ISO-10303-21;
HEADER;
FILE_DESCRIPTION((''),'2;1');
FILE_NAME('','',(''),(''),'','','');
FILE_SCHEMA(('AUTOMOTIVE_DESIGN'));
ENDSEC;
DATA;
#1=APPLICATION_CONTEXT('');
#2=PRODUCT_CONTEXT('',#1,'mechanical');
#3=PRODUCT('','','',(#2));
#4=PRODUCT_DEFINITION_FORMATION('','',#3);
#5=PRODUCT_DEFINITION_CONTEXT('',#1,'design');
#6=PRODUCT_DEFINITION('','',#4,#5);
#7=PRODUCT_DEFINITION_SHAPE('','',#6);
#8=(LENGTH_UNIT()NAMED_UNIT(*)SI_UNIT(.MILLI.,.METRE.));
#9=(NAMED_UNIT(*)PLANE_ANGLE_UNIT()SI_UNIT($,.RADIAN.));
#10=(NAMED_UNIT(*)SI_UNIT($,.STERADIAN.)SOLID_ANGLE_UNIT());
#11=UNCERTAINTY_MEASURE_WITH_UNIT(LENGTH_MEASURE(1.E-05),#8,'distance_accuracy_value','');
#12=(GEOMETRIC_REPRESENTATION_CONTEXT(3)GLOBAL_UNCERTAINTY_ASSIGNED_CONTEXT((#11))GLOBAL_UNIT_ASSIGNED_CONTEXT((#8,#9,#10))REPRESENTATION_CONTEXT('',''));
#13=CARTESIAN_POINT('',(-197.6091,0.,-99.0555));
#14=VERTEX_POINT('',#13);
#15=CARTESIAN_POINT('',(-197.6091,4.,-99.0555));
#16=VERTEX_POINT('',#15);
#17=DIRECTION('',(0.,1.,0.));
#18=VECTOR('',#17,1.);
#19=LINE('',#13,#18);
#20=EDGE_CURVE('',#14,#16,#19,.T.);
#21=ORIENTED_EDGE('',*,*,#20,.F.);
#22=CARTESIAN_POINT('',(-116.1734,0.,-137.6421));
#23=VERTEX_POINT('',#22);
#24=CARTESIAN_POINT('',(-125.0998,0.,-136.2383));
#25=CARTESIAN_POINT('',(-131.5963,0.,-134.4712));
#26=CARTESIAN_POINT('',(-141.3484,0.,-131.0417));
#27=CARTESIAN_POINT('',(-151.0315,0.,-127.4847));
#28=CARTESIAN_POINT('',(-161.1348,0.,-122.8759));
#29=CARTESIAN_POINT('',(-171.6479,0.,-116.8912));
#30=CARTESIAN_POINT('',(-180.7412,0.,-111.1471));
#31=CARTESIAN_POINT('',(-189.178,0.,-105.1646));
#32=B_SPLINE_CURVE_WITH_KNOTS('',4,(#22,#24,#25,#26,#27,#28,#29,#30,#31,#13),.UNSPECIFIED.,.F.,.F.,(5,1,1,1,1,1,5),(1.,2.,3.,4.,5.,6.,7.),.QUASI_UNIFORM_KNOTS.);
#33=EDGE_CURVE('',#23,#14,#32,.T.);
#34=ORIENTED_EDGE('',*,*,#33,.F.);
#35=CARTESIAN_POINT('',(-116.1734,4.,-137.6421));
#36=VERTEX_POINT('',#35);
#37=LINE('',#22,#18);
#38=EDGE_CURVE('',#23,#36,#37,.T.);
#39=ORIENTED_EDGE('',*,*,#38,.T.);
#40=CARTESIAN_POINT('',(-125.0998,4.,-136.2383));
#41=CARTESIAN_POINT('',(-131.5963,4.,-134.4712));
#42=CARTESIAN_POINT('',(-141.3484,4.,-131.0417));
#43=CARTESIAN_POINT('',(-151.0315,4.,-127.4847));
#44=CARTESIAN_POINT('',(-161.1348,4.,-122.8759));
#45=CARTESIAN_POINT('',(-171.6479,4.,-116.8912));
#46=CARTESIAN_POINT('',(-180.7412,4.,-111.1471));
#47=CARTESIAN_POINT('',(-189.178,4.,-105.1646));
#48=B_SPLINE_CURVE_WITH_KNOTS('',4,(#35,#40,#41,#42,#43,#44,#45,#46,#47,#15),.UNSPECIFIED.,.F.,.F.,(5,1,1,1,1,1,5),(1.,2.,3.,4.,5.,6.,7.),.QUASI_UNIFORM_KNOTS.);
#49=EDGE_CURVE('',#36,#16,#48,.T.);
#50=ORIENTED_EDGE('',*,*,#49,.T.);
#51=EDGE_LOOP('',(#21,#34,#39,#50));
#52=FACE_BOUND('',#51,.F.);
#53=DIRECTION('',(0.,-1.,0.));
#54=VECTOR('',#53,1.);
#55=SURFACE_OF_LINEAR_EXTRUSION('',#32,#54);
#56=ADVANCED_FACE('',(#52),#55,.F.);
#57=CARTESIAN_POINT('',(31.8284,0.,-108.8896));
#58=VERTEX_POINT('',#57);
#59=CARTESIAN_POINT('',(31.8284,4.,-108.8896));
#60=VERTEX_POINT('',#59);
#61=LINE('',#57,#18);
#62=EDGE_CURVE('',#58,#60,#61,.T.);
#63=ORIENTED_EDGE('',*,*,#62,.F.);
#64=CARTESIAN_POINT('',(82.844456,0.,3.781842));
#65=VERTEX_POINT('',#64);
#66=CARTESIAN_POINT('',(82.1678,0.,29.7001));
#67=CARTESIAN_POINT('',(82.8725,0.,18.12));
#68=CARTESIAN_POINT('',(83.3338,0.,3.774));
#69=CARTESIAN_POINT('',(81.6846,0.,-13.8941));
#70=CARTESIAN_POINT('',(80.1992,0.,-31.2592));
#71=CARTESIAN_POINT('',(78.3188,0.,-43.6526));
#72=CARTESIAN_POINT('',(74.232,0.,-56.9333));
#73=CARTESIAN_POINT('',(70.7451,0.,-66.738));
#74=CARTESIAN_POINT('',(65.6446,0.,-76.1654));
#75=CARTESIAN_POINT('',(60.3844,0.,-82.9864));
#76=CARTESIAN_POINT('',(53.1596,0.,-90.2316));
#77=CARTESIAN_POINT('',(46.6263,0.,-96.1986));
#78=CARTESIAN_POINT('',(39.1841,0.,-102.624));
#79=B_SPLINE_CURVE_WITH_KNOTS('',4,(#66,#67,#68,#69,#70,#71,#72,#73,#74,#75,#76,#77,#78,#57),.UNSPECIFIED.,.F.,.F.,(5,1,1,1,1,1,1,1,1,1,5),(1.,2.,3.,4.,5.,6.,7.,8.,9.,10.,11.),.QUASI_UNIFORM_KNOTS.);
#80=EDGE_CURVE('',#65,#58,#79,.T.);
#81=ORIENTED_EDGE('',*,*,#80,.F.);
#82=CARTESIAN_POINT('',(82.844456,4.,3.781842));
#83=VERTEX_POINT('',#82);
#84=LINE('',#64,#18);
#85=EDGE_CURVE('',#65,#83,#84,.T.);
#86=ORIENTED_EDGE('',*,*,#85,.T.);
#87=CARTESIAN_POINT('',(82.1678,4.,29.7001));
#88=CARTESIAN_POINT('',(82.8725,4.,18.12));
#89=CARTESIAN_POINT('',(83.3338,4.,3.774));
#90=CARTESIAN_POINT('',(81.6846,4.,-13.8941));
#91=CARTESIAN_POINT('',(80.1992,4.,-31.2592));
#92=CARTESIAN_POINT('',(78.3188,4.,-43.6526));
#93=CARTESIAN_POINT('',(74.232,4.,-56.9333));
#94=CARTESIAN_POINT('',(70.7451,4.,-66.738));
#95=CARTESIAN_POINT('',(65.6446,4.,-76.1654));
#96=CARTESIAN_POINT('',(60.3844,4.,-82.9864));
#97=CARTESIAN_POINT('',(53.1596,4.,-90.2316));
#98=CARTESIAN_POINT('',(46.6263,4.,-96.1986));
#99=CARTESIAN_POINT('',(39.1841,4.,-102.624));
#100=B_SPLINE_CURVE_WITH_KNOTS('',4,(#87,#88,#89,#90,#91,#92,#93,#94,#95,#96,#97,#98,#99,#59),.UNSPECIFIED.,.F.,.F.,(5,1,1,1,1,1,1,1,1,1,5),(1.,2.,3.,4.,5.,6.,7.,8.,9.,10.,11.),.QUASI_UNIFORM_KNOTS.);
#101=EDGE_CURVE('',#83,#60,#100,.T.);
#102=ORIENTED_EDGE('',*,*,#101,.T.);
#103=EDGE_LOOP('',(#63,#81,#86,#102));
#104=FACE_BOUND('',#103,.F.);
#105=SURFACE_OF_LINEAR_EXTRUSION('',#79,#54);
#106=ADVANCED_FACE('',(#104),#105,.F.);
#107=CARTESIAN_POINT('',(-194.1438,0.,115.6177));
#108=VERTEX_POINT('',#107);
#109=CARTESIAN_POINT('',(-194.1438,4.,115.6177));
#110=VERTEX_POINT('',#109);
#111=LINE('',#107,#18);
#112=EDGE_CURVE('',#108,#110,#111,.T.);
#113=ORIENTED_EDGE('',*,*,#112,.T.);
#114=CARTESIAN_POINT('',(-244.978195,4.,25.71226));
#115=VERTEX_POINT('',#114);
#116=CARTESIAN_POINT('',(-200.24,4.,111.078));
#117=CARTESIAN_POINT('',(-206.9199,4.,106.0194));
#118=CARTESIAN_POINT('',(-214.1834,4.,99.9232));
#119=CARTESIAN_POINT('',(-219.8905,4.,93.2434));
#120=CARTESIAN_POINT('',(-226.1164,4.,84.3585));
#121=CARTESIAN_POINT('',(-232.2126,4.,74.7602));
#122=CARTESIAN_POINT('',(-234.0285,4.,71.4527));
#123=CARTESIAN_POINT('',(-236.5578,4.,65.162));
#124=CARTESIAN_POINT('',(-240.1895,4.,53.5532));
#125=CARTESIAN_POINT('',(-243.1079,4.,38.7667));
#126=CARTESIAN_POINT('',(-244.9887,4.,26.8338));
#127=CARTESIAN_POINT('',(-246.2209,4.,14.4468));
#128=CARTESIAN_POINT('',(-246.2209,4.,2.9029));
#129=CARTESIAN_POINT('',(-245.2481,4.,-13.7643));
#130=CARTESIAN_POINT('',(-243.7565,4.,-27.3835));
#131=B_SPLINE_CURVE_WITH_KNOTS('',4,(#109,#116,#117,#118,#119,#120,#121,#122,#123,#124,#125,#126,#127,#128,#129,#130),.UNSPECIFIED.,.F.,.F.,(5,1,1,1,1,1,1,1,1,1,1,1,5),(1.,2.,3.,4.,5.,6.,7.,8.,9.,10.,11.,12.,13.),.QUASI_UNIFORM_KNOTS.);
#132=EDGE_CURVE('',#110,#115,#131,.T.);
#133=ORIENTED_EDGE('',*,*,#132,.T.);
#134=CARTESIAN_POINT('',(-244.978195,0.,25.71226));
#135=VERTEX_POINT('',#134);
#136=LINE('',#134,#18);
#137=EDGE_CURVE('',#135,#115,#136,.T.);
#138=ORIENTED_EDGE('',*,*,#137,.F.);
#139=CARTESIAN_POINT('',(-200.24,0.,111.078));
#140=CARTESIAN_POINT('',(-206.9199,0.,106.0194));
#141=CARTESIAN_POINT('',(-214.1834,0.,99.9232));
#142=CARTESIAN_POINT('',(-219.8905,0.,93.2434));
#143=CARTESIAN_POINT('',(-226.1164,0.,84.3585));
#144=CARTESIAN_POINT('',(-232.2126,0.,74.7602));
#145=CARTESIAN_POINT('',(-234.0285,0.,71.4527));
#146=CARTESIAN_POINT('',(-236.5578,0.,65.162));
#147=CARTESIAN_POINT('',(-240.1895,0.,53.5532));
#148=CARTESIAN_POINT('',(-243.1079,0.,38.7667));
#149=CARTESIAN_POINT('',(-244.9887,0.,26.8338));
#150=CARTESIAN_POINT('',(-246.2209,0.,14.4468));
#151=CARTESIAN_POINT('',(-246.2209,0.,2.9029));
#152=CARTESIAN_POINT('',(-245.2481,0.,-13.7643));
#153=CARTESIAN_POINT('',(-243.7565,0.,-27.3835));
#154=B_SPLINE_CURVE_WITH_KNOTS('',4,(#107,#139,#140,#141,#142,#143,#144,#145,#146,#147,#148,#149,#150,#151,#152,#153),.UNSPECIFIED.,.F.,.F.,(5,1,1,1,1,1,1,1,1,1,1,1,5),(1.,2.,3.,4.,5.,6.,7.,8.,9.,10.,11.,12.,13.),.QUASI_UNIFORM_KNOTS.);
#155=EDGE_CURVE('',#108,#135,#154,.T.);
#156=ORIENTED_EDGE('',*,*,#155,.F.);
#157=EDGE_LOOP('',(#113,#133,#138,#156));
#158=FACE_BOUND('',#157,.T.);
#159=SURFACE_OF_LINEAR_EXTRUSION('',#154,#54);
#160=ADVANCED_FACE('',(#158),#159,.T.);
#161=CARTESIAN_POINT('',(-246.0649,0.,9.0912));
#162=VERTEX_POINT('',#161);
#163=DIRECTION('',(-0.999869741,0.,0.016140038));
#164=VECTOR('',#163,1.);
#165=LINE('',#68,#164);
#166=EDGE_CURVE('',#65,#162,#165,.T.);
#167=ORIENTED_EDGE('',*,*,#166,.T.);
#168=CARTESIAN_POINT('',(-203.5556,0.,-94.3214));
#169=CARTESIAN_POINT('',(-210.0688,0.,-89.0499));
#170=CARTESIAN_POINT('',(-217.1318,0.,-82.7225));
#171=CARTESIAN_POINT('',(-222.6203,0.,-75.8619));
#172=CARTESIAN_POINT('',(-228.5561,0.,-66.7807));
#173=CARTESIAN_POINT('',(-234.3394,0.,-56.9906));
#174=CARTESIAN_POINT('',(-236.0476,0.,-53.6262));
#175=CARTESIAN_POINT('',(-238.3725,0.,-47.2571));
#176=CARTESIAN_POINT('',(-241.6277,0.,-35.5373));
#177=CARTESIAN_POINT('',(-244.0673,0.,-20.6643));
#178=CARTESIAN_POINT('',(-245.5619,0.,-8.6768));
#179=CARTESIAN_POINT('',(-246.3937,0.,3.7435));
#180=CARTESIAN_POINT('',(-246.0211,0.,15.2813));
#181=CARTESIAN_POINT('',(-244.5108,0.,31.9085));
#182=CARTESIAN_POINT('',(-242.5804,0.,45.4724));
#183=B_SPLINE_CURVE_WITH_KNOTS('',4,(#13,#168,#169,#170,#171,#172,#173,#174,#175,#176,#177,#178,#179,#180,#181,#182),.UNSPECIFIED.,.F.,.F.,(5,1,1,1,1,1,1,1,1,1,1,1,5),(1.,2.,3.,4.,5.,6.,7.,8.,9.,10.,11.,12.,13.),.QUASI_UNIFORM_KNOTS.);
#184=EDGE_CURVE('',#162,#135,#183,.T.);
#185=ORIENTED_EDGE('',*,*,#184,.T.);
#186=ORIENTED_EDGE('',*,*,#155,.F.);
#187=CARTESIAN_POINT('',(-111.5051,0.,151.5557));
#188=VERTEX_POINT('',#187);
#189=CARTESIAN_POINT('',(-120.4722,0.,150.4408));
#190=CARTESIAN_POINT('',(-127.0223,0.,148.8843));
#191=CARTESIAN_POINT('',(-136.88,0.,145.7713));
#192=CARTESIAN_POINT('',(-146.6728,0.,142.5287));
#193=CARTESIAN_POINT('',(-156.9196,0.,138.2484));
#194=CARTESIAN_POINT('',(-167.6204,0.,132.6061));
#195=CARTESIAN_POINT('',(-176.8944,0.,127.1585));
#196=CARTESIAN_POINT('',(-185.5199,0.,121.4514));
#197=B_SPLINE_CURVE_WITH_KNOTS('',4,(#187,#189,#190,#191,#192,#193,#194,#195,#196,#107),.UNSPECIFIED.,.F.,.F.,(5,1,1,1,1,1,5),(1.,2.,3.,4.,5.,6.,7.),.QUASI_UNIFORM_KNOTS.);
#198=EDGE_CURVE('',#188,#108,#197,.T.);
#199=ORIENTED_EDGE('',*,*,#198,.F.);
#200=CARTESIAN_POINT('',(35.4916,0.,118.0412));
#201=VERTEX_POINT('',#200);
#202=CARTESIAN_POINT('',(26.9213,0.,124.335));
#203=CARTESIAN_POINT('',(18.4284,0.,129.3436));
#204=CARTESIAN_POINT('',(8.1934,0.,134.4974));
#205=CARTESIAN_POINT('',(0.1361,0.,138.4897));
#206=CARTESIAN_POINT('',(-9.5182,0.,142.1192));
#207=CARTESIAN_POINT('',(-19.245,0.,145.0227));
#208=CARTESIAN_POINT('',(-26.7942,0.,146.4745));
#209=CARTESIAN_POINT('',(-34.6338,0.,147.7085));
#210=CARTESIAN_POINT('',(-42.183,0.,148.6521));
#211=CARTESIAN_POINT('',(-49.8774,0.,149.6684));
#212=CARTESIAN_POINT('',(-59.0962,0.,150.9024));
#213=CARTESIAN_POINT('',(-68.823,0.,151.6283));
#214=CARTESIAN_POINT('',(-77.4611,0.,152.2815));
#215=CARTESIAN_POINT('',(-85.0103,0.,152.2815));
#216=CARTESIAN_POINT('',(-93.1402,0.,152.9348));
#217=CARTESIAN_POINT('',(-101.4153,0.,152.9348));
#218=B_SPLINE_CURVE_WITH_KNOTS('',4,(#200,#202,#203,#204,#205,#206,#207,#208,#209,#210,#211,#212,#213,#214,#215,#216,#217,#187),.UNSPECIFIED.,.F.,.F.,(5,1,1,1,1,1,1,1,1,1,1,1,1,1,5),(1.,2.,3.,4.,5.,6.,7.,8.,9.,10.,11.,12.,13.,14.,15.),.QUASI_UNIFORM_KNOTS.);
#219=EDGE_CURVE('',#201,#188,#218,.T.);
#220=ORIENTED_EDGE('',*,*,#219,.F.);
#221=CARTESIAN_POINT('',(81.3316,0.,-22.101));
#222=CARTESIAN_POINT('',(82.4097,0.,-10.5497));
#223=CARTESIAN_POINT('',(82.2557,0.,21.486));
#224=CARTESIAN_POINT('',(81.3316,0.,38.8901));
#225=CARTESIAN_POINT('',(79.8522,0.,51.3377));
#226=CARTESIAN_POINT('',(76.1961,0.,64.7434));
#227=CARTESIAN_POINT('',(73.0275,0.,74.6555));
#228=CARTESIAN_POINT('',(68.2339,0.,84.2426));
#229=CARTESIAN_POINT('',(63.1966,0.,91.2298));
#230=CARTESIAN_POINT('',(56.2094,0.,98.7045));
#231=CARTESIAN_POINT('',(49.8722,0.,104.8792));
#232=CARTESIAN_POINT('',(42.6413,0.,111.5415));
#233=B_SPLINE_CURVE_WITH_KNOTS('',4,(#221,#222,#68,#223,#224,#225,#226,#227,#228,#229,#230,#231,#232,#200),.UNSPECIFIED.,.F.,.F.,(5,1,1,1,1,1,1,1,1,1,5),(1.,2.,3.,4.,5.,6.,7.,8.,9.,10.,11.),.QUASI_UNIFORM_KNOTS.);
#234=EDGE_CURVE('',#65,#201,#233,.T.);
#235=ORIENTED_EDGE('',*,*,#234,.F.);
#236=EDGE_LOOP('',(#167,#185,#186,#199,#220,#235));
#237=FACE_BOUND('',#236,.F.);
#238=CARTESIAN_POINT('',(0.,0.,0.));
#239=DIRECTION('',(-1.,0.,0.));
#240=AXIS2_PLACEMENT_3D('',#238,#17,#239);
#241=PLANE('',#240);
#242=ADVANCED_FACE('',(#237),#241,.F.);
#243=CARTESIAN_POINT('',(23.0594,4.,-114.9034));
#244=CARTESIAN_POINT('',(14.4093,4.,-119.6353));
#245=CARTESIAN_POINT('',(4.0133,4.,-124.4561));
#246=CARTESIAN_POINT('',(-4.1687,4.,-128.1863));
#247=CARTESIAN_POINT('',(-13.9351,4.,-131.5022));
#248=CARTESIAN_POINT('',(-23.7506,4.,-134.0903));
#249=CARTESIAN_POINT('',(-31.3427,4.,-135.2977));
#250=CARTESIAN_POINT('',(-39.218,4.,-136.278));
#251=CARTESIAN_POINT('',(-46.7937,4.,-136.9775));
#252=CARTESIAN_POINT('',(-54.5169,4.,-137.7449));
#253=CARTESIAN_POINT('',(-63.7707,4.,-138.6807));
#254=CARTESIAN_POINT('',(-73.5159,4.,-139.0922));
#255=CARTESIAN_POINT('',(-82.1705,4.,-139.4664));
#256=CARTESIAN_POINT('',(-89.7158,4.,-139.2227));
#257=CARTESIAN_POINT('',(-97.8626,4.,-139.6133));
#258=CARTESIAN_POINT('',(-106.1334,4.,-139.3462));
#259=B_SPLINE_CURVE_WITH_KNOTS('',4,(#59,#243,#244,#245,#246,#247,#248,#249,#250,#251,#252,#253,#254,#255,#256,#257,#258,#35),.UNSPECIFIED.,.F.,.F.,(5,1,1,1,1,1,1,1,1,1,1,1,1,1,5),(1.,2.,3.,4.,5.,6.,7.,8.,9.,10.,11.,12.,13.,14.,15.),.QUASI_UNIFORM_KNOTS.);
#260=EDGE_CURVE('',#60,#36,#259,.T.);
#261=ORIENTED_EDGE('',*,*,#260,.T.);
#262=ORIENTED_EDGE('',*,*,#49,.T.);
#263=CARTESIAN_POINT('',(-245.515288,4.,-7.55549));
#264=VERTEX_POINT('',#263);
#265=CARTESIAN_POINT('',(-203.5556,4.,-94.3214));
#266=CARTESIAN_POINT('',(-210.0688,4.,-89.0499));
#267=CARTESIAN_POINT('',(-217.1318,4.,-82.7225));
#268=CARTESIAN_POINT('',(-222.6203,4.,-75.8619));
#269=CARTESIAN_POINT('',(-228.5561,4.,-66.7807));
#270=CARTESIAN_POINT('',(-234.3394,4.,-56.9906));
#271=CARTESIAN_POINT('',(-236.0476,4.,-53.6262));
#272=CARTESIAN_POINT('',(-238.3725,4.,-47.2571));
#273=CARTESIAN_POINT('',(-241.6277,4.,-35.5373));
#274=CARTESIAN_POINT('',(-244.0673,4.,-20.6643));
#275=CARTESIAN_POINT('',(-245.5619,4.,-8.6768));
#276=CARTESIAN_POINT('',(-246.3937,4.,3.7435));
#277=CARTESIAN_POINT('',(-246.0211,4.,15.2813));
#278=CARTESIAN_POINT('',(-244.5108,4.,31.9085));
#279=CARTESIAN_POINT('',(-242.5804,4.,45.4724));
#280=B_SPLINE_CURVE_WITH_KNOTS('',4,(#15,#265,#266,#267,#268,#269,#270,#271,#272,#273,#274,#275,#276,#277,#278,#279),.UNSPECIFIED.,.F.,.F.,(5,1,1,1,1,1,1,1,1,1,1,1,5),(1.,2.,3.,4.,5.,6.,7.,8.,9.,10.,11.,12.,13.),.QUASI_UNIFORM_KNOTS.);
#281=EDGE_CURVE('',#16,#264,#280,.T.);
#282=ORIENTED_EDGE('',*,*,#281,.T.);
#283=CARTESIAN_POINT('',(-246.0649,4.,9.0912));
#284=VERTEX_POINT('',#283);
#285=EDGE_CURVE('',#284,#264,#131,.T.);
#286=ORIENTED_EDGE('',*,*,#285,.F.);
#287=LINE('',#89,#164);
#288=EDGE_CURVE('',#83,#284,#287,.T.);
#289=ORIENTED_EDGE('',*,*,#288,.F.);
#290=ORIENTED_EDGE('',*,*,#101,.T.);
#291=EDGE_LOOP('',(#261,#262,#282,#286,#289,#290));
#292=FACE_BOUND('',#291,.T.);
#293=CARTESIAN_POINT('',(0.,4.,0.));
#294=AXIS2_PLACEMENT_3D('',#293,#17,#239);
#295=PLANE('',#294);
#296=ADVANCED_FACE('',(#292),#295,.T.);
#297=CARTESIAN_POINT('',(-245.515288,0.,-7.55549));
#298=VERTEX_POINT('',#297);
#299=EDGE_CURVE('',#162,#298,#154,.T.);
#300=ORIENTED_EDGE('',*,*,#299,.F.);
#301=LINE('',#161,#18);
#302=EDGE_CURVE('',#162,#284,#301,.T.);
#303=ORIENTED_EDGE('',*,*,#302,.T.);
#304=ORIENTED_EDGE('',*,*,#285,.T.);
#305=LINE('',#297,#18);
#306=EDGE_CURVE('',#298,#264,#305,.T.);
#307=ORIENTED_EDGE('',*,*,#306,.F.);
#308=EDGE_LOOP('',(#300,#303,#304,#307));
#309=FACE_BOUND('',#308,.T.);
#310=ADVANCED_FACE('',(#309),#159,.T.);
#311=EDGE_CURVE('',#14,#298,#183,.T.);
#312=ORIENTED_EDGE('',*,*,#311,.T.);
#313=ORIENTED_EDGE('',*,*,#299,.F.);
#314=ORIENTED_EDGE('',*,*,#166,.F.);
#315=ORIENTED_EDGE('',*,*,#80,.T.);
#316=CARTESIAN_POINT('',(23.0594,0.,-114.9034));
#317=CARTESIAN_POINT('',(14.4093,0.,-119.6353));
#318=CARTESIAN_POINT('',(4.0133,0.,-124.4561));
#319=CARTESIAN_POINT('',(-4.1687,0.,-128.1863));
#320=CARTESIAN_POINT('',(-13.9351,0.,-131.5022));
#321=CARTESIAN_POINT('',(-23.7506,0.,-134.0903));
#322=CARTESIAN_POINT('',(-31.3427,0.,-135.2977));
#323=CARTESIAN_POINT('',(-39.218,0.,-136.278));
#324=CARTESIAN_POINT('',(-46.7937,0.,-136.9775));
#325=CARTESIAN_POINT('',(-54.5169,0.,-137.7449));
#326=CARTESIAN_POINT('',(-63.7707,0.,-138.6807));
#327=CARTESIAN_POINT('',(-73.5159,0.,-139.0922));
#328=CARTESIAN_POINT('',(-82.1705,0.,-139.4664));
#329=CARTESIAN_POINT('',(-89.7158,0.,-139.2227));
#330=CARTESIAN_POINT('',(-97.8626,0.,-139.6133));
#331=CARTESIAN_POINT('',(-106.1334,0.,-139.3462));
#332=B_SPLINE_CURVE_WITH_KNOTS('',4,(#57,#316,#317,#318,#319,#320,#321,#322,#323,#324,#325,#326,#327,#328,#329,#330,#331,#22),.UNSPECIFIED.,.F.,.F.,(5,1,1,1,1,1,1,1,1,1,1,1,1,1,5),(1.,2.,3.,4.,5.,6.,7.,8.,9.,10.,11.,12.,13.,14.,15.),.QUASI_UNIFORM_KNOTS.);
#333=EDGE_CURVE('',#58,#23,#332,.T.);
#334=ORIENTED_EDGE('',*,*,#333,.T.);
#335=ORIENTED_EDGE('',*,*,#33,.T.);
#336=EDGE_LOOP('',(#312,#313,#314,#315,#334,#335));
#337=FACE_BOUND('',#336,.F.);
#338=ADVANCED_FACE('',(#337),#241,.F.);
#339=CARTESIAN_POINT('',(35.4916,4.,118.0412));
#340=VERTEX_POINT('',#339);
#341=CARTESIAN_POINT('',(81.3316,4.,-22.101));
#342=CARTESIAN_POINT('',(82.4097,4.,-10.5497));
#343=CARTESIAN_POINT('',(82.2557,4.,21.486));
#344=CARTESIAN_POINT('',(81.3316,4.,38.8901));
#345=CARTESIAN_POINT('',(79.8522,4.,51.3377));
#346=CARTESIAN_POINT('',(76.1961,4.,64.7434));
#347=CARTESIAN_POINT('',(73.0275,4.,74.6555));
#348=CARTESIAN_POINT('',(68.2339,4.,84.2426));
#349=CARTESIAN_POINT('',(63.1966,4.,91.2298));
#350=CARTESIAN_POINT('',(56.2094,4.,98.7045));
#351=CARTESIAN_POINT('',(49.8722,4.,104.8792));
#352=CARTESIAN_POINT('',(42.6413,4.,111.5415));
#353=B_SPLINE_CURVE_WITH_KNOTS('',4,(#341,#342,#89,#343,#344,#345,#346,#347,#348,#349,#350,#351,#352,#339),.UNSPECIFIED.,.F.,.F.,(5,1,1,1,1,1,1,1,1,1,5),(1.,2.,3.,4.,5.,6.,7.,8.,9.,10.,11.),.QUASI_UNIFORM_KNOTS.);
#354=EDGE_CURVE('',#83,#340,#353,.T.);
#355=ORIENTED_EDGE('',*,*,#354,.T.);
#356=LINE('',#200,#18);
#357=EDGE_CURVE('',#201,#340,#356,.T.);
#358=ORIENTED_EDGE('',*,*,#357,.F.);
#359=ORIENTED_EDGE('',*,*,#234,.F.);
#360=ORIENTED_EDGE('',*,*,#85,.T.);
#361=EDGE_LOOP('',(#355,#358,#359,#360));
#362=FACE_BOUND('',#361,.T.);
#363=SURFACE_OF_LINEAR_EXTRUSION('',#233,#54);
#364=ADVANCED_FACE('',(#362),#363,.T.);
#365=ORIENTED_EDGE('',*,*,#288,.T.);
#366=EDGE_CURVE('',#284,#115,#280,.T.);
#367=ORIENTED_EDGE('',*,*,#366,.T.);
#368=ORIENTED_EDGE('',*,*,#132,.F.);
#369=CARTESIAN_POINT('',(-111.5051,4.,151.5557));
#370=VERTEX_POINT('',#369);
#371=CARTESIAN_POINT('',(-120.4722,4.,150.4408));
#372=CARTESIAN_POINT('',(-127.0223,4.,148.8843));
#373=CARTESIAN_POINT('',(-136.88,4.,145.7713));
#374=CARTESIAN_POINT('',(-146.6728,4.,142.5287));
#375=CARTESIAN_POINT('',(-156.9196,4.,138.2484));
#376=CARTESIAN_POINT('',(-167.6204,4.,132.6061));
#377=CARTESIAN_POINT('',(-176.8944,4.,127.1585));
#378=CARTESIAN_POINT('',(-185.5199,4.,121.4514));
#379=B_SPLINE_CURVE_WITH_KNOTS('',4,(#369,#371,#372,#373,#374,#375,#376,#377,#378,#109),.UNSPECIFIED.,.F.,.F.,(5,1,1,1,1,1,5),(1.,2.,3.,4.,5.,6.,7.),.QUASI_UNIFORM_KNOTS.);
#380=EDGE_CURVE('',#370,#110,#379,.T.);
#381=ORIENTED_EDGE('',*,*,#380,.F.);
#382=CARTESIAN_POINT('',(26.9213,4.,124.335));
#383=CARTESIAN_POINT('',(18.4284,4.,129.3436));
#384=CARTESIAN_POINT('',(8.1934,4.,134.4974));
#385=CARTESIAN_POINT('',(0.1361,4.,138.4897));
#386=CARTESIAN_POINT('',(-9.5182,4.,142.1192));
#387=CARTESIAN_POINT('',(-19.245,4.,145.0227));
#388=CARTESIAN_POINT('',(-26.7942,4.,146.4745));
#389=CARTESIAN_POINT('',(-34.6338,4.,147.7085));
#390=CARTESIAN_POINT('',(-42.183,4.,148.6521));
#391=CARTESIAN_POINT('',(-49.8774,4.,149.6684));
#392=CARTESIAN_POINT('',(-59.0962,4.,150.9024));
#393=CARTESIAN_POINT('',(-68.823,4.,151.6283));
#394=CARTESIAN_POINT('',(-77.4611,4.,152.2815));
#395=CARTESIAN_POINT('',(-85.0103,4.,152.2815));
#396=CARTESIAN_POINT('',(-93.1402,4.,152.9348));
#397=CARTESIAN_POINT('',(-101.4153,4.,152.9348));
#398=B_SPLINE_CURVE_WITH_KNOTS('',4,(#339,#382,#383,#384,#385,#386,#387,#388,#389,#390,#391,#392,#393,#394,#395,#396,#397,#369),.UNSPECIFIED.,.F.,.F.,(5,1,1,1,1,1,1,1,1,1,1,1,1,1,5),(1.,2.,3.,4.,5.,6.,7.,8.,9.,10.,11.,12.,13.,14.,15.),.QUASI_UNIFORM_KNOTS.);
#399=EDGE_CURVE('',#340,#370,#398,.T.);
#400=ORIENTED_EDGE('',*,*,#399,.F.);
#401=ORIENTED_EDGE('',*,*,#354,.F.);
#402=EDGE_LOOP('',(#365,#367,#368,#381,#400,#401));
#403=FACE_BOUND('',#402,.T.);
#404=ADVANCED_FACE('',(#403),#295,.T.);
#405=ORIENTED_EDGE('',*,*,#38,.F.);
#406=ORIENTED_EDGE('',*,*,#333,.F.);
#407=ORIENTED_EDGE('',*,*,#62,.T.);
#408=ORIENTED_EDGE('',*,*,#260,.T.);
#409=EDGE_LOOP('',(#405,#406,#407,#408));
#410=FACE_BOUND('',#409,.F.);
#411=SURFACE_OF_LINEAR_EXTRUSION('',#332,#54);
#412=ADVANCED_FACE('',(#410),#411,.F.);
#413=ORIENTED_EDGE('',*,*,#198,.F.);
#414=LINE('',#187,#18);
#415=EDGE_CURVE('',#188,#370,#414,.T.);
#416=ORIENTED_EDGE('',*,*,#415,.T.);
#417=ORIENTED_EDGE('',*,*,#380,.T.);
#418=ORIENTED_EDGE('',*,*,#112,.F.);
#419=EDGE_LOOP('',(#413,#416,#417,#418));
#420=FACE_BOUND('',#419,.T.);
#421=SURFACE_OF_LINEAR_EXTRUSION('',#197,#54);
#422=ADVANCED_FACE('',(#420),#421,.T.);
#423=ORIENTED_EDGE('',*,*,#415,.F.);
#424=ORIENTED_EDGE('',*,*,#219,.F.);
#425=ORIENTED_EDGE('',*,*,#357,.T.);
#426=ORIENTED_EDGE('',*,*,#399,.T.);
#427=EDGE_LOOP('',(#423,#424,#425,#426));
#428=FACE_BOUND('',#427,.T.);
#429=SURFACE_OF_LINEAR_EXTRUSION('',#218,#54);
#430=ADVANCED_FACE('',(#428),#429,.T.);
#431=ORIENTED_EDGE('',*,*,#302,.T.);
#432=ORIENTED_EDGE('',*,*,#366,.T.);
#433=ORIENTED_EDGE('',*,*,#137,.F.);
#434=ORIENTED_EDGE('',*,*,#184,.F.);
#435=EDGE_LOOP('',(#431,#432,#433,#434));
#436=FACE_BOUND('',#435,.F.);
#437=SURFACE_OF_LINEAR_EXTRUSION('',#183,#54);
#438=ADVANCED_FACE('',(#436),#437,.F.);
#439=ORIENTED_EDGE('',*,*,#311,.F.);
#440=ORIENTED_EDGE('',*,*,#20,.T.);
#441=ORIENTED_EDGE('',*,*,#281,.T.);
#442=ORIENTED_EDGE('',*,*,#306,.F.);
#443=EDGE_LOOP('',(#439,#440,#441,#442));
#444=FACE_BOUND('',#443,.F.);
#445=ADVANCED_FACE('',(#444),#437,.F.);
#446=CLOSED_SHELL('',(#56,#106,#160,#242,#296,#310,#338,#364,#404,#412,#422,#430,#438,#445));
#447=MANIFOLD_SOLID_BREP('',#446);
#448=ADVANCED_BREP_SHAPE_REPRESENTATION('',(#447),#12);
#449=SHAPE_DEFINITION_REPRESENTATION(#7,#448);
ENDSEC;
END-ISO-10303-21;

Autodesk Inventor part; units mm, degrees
ref_plane "YZ Plane" through (0, 0, 0) normal (1, 0, 0) x (0, 1, 0)
ref_plane "XZ Plane" through (0, 0, 0) normal (0, 1, 0) x (-1, 0, 0)
ref_plane "XY Plane" through (0, 0, 0) normal (0, 0, 1) x (1, 0, 0)
sketch "Эскиз1" plane through (0, 0, 0) normal (0, 1, 0) x (-1, 0, 0)
  line L0 (-81.3316, -22.101) -> (-82.4097, -10.5497) construction
  line L1 (-82.4097, -10.5497) -> (-83.3338, 3.774) construction
  line L2 (-83.3338, 3.774) -> (-82.2557, 21.486) construction
  line L3 (-82.2557, 21.486) -> (-81.3316, 38.8901) construction
  line L4 (-81.3316, 38.8901) -> (-79.8522, 51.3377) construction
  line L5 (-79.8522, 51.3377) -> (-76.1961, 64.7434) construction
  line L6 (-76.1961, 64.7434) -> (-73.0275, 74.6555) construction
  line L7 (-73.0275, 74.6555) -> (-68.2339, 84.2426) construction
  line L8 (-68.2339, 84.2426) -> (-63.1966, 91.2298) construction
  line L9 (-63.1966, 91.2298) -> (-56.2094, 98.7045) construction
  line L10 (-56.2094, 98.7045) -> (-49.8722, 104.8792) construction
  line L11 (-49.8722, 104.8792) -> (-42.6413, 111.5415) construction
  line L12 (-42.6413, 111.5415) -> (-35.4916, 118.0412) construction
  spline S0 degree 4 poles (-81.3316, -22.101) (-82.4097, -10.5497) (-83.3338, 3.774) (-82.2557, 21.486) (-81.3316, 38.8901) (-79.8522, 51.3377) (-76.1961, 64.7434) (-73.0275, 74.6555) (-68.2339, 84.2426) (-63.1966, 91.2298) (-56.2094, 98.7045) (-49.8722, 104.8792) (-42.6413, 111.5415) (-35.4916, 118.0412) knots 1 1 1 1 1 2 3 4 5 6 7 8 9 10 11 11 11 11 11
  line L13 (-35.4916, 118.0412) -> (-26.9213, 124.335) construction
  line L14 (-26.9213, 124.335) -> (-18.4284, 129.3436) construction
  line L15 (-18.4284, 129.3436) -> (-8.1934, 134.4974) construction
  line L16 (-8.1934, 134.4974) -> (-0.1361, 138.4897) construction
  line L17 (-0.1361, 138.4897) -> (9.5182, 142.1192) construction
  line L18 (9.5182, 142.1192) -> (19.245, 145.0227) construction
  line L19 (19.245, 145.0227) -> (26.7942, 146.4745) construction
  line L20 (26.7942, 146.4745) -> (34.6338, 147.7085) construction
  line L21 (34.6338, 147.7085) -> (42.183, 148.6521) construction
  line L22 (42.183, 148.6521) -> (49.8774, 149.6684) construction
  line L23 (49.8774, 149.6684) -> (59.0962, 150.9024) construction
  line L24 (59.0962, 150.9024) -> (68.823, 151.6283) construction
  line L25 (68.823, 151.6283) -> (77.4611, 152.2815) construction
  line L26 (77.4611, 152.2815) -> (85.0103, 152.2815) construction
  line L27 (85.0103, 152.2815) -> (93.1402, 152.9348) construction
  line L28 (93.1402, 152.9348) -> (101.4153, 152.9348) construction
  line L29 (101.4153, 152.9348) -> (111.5051, 151.5557) construction
  spline S1 degree 4 poles (-35.4916, 118.0412) (-26.9213, 124.335) (-18.4284, 129.3436) (-8.1934, 134.4974) (-0.1361, 138.4897) (9.5182, 142.1192) (19.245, 145.0227) (26.7942, 146.4745) (34.6338, 147.7085) (42.183, 148.6521) (49.8774, 149.6684) (59.0962, 150.9024) (68.823, 151.6283) (77.4611, 152.2815) (85.0103, 152.2815) (93.1402, 152.9348) (101.4153, 152.9348) (111.5051, 151.5557) knots 1 1 1 1 1 2 3 4 5 6 7 8 9 10 11 12 13 14 15 15 15 15 15
  line L30 (111.5051, 151.5557) -> (120.4722, 150.4408) construction
  line L31 (120.4722, 150.4408) -> (127.0223, 148.8843) construction
  line L32 (127.0223, 148.8843) -> (136.88, 145.7713) construction
  line L33 (136.88, 145.7713) -> (146.6728, 142.5287) construction
  line L34 (146.6728, 142.5287) -> (156.9196, 138.2484) construction
  line L35 (156.9196, 138.2484) -> (167.6204, 132.6061) construction
  line L36 (167.6204, 132.6061) -> (176.8944, 127.1585) construction
  line L37 (176.8944, 127.1585) -> (185.5199, 121.4514) construction
  line L38 (185.5199, 121.4514) -> (194.1438, 115.6177) construction
  spline S2 degree 4 poles (111.5051, 151.5557) (120.4722, 150.4408) (127.0223, 148.8843) (136.88, 145.7713) (146.6728, 142.5287) (156.9196, 138.2484) (167.6204, 132.6061) (176.8944, 127.1585) (185.5199, 121.4514) (194.1438, 115.6177) knots 1 1 1 1 1 2 3 4 5 6 7 7 7 7 7
  line L39 (194.1438, 115.6177) -> (200.24, 111.078) construction
  line L40 (200.24, 111.078) -> (206.9199, 106.0194) construction
  line L41 (206.9199, 106.0194) -> (214.1834, 99.9232) construction
  line L42 (214.1834, 99.9232) -> (219.8905, 93.2434) construction
  line L43 (219.8905, 93.2434) -> (226.1164, 84.3585) construction
  line L44 (226.1164, 84.3585) -> (232.2126, 74.7602) construction
  line L45 (232.2126, 74.7602) -> (234.0285, 71.4527) construction
  line L46 (234.0285, 71.4527) -> (236.5578, 65.162) construction
  line L47 (236.5578, 65.162) -> (240.1895, 53.5532) construction
  line L48 (240.1895, 53.5532) -> (243.1079, 38.7667) construction
  line L49 (243.1079, 38.7667) -> (244.9887, 26.8338) construction
  line L50 (244.9887, 26.8338) -> (246.2209, 14.4468) construction
  line L51 (246.2209, 14.4468) -> (246.2209, 2.9029) construction
  line L52 (246.2209, 2.9029) -> (245.2481, -13.7643) construction
  line L53 (245.2481, -13.7643) -> (243.7565, -27.3835) construction
  spline S3 degree 4 poles (194.1438, 115.6177) (200.24, 111.078) (206.9199, 106.0194) (214.1834, 99.9232) (219.8905, 93.2434) (226.1164, 84.3585) (232.2126, 74.7602) (234.0285, 71.4527) (236.5578, 65.162) (240.1895, 53.5532) (243.1079, 38.7667) (244.9887, 26.8338) (246.2209, 14.4468) (246.2209, 2.9029) (245.2481, -13.7643) (243.7565, -27.3835) knots 1 1 1 1 1 2 3 4 5 6 7 8 9 10 11 12 13 13 13 13 13
  line L54 (-83.3338, 3.774) -> (246.0649, 9.0912)
  line L55 (-82.1678, 29.7001) -> (-82.8725, 18.12) construction
  line L56 (-82.8725, 18.12) -> (-83.3338, 3.774) construction
  line L57 (-83.3338, 3.774) -> (-81.6846, -13.8941) construction
  line L58 (-81.6846, -13.8941) -> (-80.1992, -31.2592) construction
  line L59 (-80.1992, -31.2592) -> (-78.3188, -43.6526) construction
  line L60 (-78.3188, -43.6526) -> (-74.232, -56.9333) construction
  line L61 (-74.232, -56.9333) -> (-70.7451, -66.738) construction
  line L62 (-70.7451, -66.738) -> (-65.6446, -76.1654) construction
  line L63 (-65.6446, -76.1654) -> (-60.3844, -82.9864) construction
  line L64 (-60.3844, -82.9864) -> (-53.1596, -90.2316) construction
  line L65 (-53.1596, -90.2316) -> (-46.6263, -96.1986) construction
  line L66 (-46.6263, -96.1986) -> (-39.1841, -102.624) construction
  line L67 (-39.1841, -102.624) -> (-31.8284, -108.8896) construction
  spline S4 degree 4 poles (-82.1678, 29.7001) (-82.8725, 18.12) (-83.3338, 3.774) (-81.6846, -13.8941) (-80.1992, -31.2592) (-78.3188, -43.6526) (-74.232, -56.9333) (-70.7451, -66.738) (-65.6446, -76.1654) (-60.3844, -82.9864) (-53.1596, -90.2316) (-46.6263, -96.1986) (-39.1841, -102.624) (-31.8284, -108.8896) knots 1 1 1 1 1 2 3 4 5 6 7 8 9 10 11 11 11 11 11
  line L68 (-31.8284, -108.8896) -> (-23.0594, -114.9034) construction
  line L69 (-23.0594, -114.9034) -> (-14.4093, -119.6353) construction
  line L70 (-14.4093, -119.6353) -> (-4.0133, -124.4561) construction
  line L71 (-4.0133, -124.4561) -> (4.1687, -128.1863) construction
  line L72 (4.1687, -128.1863) -> (13.9351, -131.5022) construction
  line L73 (13.9351, -131.5022) -> (23.7506, -134.0903) construction
  line L74 (23.7506, -134.0903) -> (31.3427, -135.2977) construction
  line L75 (31.3427, -135.2977) -> (39.218, -136.278) construction
  line L76 (39.218, -136.278) -> (46.7937, -136.9775) construction
  line L77 (46.7937, -136.9775) -> (54.5169, -137.7449) construction
  line L78 (54.5169, -137.7449) -> (63.7707, -138.6807) construction
  line L79 (63.7707, -138.6807) -> (73.5159, -139.0922) construction
  line L80 (73.5159, -139.0922) -> (82.1705, -139.4664) construction
  line L81 (82.1705, -139.4664) -> (89.7158, -139.2227) construction
  line L82 (89.7158, -139.2227) -> (97.8626, -139.6133) construction
  line L83 (97.8626, -139.6133) -> (106.1334, -139.3462) construction
  line L84 (106.1334, -139.3462) -> (116.1734, -137.6421) construction
  spline S5 degree 4 poles (-31.8284, -108.8896) (-23.0594, -114.9034) (-14.4093, -119.6353) (-4.0133, -124.4561) (4.1687, -128.1863) (13.9351, -131.5022) (23.7506, -134.0903) (31.3427, -135.2977) (39.218, -136.278) (46.7937, -136.9775) (54.5169, -137.7449) (63.7707, -138.6807) (73.5159, -139.0922) (82.1705, -139.4664) (89.7158, -139.2227) (97.8626, -139.6133) (106.1334, -139.3462) (116.1734, -137.6421) knots 1 1 1 1 1 2 3 4 5 6 7 8 9 10 11 12 13 14 15 15 15 15 15
  line L85 (116.1734, -137.6421) -> (125.0998, -136.2383) construction
  line L86 (125.0998, -136.2383) -> (131.5963, -134.4712) construction
  line L87 (131.5963, -134.4712) -> (141.3484, -131.0417) construction
  line L88 (141.3484, -131.0417) -> (151.0315, -127.4847) construction
  line L89 (151.0315, -127.4847) -> (161.1348, -122.8759) construction
  line L90 (161.1348, -122.8759) -> (171.6479, -116.8912) construction
  line L91 (171.6479, -116.8912) -> (180.7412, -111.1471) construction
  line L92 (180.7412, -111.1471) -> (189.178, -105.1646) construction
  line L93 (189.178, -105.1646) -> (197.6091, -99.0555) construction
  spline S6 degree 4 poles (116.1734, -137.6421) (125.0998, -136.2383) (131.5963, -134.4712) (141.3484, -131.0417) (151.0315, -127.4847) (161.1348, -122.8759) (171.6479, -116.8912) (180.7412, -111.1471) (189.178, -105.1646) (197.6091, -99.0555) knots 1 1 1 1 1 2 3 4 5 6 7 7 7 7 7
  line L94 (197.6091, -99.0555) -> (203.5556, -94.3214) construction
  line L95 (203.5556, -94.3214) -> (210.0688, -89.0499) construction
  line L96 (210.0688, -89.0499) -> (217.1318, -82.7225) construction
  line L97 (217.1318, -82.7225) -> (222.6203, -75.8619) construction
  line L98 (222.6203, -75.8619) -> (228.5561, -66.7807) construction
  line L99 (228.5561, -66.7807) -> (234.3394, -56.9906) construction
  line L100 (234.3394, -56.9906) -> (236.0476, -53.6262) construction
  line L101 (236.0476, -53.6262) -> (238.3725, -47.2571) construction
  line L102 (238.3725, -47.2571) -> (241.6277, -35.5373) construction
  line L103 (241.6277, -35.5373) -> (244.0673, -20.6643) construction
  line L104 (244.0673, -20.6643) -> (245.5619, -8.6768) construction
  line L105 (245.5619, -8.6768) -> (246.3937, 3.7435) construction
  line L106 (246.3937, 3.7435) -> (246.0211, 15.2813) construction
  line L107 (246.0211, 15.2813) -> (244.5108, 31.9085) construction
  line L108 (244.5108, 31.9085) -> (242.5804, 45.4724) construction
  spline S7 degree 4 poles (197.6091, -99.0555) (203.5556, -94.3214) (210.0688, -89.0499) (217.1318, -82.7225) (222.6203, -75.8619) (228.5561, -66.7807) (234.3394, -56.9906) (236.0476, -53.6262) (238.3725, -47.2571) (241.6277, -35.5373) (244.0673, -20.6643) (245.5619, -8.6768) (246.3937, 3.7435) (246.0211, 15.2813) (244.5108, 31.9085) (242.5804, 45.4724) knots 1 1 1 1 1 2 3 4 5 6 7 8 9 10 11 12 13 13 13 13 13
  point P0 (0, 0)
  point P1 (245.5153, -7.5556)
  point P2 (246.0649, 9.0912)
  point P3 (244.9783, 25.7116)
  point P4 (-82.8445, 3.7819)
extrude "Выдавливание1" add sketch "Эскиз1" along normal blind 4 contours S0 S1 S2 S3 S7 L54 | L54 S3 S7 S6 S5 S4
properties part number "head_1"
